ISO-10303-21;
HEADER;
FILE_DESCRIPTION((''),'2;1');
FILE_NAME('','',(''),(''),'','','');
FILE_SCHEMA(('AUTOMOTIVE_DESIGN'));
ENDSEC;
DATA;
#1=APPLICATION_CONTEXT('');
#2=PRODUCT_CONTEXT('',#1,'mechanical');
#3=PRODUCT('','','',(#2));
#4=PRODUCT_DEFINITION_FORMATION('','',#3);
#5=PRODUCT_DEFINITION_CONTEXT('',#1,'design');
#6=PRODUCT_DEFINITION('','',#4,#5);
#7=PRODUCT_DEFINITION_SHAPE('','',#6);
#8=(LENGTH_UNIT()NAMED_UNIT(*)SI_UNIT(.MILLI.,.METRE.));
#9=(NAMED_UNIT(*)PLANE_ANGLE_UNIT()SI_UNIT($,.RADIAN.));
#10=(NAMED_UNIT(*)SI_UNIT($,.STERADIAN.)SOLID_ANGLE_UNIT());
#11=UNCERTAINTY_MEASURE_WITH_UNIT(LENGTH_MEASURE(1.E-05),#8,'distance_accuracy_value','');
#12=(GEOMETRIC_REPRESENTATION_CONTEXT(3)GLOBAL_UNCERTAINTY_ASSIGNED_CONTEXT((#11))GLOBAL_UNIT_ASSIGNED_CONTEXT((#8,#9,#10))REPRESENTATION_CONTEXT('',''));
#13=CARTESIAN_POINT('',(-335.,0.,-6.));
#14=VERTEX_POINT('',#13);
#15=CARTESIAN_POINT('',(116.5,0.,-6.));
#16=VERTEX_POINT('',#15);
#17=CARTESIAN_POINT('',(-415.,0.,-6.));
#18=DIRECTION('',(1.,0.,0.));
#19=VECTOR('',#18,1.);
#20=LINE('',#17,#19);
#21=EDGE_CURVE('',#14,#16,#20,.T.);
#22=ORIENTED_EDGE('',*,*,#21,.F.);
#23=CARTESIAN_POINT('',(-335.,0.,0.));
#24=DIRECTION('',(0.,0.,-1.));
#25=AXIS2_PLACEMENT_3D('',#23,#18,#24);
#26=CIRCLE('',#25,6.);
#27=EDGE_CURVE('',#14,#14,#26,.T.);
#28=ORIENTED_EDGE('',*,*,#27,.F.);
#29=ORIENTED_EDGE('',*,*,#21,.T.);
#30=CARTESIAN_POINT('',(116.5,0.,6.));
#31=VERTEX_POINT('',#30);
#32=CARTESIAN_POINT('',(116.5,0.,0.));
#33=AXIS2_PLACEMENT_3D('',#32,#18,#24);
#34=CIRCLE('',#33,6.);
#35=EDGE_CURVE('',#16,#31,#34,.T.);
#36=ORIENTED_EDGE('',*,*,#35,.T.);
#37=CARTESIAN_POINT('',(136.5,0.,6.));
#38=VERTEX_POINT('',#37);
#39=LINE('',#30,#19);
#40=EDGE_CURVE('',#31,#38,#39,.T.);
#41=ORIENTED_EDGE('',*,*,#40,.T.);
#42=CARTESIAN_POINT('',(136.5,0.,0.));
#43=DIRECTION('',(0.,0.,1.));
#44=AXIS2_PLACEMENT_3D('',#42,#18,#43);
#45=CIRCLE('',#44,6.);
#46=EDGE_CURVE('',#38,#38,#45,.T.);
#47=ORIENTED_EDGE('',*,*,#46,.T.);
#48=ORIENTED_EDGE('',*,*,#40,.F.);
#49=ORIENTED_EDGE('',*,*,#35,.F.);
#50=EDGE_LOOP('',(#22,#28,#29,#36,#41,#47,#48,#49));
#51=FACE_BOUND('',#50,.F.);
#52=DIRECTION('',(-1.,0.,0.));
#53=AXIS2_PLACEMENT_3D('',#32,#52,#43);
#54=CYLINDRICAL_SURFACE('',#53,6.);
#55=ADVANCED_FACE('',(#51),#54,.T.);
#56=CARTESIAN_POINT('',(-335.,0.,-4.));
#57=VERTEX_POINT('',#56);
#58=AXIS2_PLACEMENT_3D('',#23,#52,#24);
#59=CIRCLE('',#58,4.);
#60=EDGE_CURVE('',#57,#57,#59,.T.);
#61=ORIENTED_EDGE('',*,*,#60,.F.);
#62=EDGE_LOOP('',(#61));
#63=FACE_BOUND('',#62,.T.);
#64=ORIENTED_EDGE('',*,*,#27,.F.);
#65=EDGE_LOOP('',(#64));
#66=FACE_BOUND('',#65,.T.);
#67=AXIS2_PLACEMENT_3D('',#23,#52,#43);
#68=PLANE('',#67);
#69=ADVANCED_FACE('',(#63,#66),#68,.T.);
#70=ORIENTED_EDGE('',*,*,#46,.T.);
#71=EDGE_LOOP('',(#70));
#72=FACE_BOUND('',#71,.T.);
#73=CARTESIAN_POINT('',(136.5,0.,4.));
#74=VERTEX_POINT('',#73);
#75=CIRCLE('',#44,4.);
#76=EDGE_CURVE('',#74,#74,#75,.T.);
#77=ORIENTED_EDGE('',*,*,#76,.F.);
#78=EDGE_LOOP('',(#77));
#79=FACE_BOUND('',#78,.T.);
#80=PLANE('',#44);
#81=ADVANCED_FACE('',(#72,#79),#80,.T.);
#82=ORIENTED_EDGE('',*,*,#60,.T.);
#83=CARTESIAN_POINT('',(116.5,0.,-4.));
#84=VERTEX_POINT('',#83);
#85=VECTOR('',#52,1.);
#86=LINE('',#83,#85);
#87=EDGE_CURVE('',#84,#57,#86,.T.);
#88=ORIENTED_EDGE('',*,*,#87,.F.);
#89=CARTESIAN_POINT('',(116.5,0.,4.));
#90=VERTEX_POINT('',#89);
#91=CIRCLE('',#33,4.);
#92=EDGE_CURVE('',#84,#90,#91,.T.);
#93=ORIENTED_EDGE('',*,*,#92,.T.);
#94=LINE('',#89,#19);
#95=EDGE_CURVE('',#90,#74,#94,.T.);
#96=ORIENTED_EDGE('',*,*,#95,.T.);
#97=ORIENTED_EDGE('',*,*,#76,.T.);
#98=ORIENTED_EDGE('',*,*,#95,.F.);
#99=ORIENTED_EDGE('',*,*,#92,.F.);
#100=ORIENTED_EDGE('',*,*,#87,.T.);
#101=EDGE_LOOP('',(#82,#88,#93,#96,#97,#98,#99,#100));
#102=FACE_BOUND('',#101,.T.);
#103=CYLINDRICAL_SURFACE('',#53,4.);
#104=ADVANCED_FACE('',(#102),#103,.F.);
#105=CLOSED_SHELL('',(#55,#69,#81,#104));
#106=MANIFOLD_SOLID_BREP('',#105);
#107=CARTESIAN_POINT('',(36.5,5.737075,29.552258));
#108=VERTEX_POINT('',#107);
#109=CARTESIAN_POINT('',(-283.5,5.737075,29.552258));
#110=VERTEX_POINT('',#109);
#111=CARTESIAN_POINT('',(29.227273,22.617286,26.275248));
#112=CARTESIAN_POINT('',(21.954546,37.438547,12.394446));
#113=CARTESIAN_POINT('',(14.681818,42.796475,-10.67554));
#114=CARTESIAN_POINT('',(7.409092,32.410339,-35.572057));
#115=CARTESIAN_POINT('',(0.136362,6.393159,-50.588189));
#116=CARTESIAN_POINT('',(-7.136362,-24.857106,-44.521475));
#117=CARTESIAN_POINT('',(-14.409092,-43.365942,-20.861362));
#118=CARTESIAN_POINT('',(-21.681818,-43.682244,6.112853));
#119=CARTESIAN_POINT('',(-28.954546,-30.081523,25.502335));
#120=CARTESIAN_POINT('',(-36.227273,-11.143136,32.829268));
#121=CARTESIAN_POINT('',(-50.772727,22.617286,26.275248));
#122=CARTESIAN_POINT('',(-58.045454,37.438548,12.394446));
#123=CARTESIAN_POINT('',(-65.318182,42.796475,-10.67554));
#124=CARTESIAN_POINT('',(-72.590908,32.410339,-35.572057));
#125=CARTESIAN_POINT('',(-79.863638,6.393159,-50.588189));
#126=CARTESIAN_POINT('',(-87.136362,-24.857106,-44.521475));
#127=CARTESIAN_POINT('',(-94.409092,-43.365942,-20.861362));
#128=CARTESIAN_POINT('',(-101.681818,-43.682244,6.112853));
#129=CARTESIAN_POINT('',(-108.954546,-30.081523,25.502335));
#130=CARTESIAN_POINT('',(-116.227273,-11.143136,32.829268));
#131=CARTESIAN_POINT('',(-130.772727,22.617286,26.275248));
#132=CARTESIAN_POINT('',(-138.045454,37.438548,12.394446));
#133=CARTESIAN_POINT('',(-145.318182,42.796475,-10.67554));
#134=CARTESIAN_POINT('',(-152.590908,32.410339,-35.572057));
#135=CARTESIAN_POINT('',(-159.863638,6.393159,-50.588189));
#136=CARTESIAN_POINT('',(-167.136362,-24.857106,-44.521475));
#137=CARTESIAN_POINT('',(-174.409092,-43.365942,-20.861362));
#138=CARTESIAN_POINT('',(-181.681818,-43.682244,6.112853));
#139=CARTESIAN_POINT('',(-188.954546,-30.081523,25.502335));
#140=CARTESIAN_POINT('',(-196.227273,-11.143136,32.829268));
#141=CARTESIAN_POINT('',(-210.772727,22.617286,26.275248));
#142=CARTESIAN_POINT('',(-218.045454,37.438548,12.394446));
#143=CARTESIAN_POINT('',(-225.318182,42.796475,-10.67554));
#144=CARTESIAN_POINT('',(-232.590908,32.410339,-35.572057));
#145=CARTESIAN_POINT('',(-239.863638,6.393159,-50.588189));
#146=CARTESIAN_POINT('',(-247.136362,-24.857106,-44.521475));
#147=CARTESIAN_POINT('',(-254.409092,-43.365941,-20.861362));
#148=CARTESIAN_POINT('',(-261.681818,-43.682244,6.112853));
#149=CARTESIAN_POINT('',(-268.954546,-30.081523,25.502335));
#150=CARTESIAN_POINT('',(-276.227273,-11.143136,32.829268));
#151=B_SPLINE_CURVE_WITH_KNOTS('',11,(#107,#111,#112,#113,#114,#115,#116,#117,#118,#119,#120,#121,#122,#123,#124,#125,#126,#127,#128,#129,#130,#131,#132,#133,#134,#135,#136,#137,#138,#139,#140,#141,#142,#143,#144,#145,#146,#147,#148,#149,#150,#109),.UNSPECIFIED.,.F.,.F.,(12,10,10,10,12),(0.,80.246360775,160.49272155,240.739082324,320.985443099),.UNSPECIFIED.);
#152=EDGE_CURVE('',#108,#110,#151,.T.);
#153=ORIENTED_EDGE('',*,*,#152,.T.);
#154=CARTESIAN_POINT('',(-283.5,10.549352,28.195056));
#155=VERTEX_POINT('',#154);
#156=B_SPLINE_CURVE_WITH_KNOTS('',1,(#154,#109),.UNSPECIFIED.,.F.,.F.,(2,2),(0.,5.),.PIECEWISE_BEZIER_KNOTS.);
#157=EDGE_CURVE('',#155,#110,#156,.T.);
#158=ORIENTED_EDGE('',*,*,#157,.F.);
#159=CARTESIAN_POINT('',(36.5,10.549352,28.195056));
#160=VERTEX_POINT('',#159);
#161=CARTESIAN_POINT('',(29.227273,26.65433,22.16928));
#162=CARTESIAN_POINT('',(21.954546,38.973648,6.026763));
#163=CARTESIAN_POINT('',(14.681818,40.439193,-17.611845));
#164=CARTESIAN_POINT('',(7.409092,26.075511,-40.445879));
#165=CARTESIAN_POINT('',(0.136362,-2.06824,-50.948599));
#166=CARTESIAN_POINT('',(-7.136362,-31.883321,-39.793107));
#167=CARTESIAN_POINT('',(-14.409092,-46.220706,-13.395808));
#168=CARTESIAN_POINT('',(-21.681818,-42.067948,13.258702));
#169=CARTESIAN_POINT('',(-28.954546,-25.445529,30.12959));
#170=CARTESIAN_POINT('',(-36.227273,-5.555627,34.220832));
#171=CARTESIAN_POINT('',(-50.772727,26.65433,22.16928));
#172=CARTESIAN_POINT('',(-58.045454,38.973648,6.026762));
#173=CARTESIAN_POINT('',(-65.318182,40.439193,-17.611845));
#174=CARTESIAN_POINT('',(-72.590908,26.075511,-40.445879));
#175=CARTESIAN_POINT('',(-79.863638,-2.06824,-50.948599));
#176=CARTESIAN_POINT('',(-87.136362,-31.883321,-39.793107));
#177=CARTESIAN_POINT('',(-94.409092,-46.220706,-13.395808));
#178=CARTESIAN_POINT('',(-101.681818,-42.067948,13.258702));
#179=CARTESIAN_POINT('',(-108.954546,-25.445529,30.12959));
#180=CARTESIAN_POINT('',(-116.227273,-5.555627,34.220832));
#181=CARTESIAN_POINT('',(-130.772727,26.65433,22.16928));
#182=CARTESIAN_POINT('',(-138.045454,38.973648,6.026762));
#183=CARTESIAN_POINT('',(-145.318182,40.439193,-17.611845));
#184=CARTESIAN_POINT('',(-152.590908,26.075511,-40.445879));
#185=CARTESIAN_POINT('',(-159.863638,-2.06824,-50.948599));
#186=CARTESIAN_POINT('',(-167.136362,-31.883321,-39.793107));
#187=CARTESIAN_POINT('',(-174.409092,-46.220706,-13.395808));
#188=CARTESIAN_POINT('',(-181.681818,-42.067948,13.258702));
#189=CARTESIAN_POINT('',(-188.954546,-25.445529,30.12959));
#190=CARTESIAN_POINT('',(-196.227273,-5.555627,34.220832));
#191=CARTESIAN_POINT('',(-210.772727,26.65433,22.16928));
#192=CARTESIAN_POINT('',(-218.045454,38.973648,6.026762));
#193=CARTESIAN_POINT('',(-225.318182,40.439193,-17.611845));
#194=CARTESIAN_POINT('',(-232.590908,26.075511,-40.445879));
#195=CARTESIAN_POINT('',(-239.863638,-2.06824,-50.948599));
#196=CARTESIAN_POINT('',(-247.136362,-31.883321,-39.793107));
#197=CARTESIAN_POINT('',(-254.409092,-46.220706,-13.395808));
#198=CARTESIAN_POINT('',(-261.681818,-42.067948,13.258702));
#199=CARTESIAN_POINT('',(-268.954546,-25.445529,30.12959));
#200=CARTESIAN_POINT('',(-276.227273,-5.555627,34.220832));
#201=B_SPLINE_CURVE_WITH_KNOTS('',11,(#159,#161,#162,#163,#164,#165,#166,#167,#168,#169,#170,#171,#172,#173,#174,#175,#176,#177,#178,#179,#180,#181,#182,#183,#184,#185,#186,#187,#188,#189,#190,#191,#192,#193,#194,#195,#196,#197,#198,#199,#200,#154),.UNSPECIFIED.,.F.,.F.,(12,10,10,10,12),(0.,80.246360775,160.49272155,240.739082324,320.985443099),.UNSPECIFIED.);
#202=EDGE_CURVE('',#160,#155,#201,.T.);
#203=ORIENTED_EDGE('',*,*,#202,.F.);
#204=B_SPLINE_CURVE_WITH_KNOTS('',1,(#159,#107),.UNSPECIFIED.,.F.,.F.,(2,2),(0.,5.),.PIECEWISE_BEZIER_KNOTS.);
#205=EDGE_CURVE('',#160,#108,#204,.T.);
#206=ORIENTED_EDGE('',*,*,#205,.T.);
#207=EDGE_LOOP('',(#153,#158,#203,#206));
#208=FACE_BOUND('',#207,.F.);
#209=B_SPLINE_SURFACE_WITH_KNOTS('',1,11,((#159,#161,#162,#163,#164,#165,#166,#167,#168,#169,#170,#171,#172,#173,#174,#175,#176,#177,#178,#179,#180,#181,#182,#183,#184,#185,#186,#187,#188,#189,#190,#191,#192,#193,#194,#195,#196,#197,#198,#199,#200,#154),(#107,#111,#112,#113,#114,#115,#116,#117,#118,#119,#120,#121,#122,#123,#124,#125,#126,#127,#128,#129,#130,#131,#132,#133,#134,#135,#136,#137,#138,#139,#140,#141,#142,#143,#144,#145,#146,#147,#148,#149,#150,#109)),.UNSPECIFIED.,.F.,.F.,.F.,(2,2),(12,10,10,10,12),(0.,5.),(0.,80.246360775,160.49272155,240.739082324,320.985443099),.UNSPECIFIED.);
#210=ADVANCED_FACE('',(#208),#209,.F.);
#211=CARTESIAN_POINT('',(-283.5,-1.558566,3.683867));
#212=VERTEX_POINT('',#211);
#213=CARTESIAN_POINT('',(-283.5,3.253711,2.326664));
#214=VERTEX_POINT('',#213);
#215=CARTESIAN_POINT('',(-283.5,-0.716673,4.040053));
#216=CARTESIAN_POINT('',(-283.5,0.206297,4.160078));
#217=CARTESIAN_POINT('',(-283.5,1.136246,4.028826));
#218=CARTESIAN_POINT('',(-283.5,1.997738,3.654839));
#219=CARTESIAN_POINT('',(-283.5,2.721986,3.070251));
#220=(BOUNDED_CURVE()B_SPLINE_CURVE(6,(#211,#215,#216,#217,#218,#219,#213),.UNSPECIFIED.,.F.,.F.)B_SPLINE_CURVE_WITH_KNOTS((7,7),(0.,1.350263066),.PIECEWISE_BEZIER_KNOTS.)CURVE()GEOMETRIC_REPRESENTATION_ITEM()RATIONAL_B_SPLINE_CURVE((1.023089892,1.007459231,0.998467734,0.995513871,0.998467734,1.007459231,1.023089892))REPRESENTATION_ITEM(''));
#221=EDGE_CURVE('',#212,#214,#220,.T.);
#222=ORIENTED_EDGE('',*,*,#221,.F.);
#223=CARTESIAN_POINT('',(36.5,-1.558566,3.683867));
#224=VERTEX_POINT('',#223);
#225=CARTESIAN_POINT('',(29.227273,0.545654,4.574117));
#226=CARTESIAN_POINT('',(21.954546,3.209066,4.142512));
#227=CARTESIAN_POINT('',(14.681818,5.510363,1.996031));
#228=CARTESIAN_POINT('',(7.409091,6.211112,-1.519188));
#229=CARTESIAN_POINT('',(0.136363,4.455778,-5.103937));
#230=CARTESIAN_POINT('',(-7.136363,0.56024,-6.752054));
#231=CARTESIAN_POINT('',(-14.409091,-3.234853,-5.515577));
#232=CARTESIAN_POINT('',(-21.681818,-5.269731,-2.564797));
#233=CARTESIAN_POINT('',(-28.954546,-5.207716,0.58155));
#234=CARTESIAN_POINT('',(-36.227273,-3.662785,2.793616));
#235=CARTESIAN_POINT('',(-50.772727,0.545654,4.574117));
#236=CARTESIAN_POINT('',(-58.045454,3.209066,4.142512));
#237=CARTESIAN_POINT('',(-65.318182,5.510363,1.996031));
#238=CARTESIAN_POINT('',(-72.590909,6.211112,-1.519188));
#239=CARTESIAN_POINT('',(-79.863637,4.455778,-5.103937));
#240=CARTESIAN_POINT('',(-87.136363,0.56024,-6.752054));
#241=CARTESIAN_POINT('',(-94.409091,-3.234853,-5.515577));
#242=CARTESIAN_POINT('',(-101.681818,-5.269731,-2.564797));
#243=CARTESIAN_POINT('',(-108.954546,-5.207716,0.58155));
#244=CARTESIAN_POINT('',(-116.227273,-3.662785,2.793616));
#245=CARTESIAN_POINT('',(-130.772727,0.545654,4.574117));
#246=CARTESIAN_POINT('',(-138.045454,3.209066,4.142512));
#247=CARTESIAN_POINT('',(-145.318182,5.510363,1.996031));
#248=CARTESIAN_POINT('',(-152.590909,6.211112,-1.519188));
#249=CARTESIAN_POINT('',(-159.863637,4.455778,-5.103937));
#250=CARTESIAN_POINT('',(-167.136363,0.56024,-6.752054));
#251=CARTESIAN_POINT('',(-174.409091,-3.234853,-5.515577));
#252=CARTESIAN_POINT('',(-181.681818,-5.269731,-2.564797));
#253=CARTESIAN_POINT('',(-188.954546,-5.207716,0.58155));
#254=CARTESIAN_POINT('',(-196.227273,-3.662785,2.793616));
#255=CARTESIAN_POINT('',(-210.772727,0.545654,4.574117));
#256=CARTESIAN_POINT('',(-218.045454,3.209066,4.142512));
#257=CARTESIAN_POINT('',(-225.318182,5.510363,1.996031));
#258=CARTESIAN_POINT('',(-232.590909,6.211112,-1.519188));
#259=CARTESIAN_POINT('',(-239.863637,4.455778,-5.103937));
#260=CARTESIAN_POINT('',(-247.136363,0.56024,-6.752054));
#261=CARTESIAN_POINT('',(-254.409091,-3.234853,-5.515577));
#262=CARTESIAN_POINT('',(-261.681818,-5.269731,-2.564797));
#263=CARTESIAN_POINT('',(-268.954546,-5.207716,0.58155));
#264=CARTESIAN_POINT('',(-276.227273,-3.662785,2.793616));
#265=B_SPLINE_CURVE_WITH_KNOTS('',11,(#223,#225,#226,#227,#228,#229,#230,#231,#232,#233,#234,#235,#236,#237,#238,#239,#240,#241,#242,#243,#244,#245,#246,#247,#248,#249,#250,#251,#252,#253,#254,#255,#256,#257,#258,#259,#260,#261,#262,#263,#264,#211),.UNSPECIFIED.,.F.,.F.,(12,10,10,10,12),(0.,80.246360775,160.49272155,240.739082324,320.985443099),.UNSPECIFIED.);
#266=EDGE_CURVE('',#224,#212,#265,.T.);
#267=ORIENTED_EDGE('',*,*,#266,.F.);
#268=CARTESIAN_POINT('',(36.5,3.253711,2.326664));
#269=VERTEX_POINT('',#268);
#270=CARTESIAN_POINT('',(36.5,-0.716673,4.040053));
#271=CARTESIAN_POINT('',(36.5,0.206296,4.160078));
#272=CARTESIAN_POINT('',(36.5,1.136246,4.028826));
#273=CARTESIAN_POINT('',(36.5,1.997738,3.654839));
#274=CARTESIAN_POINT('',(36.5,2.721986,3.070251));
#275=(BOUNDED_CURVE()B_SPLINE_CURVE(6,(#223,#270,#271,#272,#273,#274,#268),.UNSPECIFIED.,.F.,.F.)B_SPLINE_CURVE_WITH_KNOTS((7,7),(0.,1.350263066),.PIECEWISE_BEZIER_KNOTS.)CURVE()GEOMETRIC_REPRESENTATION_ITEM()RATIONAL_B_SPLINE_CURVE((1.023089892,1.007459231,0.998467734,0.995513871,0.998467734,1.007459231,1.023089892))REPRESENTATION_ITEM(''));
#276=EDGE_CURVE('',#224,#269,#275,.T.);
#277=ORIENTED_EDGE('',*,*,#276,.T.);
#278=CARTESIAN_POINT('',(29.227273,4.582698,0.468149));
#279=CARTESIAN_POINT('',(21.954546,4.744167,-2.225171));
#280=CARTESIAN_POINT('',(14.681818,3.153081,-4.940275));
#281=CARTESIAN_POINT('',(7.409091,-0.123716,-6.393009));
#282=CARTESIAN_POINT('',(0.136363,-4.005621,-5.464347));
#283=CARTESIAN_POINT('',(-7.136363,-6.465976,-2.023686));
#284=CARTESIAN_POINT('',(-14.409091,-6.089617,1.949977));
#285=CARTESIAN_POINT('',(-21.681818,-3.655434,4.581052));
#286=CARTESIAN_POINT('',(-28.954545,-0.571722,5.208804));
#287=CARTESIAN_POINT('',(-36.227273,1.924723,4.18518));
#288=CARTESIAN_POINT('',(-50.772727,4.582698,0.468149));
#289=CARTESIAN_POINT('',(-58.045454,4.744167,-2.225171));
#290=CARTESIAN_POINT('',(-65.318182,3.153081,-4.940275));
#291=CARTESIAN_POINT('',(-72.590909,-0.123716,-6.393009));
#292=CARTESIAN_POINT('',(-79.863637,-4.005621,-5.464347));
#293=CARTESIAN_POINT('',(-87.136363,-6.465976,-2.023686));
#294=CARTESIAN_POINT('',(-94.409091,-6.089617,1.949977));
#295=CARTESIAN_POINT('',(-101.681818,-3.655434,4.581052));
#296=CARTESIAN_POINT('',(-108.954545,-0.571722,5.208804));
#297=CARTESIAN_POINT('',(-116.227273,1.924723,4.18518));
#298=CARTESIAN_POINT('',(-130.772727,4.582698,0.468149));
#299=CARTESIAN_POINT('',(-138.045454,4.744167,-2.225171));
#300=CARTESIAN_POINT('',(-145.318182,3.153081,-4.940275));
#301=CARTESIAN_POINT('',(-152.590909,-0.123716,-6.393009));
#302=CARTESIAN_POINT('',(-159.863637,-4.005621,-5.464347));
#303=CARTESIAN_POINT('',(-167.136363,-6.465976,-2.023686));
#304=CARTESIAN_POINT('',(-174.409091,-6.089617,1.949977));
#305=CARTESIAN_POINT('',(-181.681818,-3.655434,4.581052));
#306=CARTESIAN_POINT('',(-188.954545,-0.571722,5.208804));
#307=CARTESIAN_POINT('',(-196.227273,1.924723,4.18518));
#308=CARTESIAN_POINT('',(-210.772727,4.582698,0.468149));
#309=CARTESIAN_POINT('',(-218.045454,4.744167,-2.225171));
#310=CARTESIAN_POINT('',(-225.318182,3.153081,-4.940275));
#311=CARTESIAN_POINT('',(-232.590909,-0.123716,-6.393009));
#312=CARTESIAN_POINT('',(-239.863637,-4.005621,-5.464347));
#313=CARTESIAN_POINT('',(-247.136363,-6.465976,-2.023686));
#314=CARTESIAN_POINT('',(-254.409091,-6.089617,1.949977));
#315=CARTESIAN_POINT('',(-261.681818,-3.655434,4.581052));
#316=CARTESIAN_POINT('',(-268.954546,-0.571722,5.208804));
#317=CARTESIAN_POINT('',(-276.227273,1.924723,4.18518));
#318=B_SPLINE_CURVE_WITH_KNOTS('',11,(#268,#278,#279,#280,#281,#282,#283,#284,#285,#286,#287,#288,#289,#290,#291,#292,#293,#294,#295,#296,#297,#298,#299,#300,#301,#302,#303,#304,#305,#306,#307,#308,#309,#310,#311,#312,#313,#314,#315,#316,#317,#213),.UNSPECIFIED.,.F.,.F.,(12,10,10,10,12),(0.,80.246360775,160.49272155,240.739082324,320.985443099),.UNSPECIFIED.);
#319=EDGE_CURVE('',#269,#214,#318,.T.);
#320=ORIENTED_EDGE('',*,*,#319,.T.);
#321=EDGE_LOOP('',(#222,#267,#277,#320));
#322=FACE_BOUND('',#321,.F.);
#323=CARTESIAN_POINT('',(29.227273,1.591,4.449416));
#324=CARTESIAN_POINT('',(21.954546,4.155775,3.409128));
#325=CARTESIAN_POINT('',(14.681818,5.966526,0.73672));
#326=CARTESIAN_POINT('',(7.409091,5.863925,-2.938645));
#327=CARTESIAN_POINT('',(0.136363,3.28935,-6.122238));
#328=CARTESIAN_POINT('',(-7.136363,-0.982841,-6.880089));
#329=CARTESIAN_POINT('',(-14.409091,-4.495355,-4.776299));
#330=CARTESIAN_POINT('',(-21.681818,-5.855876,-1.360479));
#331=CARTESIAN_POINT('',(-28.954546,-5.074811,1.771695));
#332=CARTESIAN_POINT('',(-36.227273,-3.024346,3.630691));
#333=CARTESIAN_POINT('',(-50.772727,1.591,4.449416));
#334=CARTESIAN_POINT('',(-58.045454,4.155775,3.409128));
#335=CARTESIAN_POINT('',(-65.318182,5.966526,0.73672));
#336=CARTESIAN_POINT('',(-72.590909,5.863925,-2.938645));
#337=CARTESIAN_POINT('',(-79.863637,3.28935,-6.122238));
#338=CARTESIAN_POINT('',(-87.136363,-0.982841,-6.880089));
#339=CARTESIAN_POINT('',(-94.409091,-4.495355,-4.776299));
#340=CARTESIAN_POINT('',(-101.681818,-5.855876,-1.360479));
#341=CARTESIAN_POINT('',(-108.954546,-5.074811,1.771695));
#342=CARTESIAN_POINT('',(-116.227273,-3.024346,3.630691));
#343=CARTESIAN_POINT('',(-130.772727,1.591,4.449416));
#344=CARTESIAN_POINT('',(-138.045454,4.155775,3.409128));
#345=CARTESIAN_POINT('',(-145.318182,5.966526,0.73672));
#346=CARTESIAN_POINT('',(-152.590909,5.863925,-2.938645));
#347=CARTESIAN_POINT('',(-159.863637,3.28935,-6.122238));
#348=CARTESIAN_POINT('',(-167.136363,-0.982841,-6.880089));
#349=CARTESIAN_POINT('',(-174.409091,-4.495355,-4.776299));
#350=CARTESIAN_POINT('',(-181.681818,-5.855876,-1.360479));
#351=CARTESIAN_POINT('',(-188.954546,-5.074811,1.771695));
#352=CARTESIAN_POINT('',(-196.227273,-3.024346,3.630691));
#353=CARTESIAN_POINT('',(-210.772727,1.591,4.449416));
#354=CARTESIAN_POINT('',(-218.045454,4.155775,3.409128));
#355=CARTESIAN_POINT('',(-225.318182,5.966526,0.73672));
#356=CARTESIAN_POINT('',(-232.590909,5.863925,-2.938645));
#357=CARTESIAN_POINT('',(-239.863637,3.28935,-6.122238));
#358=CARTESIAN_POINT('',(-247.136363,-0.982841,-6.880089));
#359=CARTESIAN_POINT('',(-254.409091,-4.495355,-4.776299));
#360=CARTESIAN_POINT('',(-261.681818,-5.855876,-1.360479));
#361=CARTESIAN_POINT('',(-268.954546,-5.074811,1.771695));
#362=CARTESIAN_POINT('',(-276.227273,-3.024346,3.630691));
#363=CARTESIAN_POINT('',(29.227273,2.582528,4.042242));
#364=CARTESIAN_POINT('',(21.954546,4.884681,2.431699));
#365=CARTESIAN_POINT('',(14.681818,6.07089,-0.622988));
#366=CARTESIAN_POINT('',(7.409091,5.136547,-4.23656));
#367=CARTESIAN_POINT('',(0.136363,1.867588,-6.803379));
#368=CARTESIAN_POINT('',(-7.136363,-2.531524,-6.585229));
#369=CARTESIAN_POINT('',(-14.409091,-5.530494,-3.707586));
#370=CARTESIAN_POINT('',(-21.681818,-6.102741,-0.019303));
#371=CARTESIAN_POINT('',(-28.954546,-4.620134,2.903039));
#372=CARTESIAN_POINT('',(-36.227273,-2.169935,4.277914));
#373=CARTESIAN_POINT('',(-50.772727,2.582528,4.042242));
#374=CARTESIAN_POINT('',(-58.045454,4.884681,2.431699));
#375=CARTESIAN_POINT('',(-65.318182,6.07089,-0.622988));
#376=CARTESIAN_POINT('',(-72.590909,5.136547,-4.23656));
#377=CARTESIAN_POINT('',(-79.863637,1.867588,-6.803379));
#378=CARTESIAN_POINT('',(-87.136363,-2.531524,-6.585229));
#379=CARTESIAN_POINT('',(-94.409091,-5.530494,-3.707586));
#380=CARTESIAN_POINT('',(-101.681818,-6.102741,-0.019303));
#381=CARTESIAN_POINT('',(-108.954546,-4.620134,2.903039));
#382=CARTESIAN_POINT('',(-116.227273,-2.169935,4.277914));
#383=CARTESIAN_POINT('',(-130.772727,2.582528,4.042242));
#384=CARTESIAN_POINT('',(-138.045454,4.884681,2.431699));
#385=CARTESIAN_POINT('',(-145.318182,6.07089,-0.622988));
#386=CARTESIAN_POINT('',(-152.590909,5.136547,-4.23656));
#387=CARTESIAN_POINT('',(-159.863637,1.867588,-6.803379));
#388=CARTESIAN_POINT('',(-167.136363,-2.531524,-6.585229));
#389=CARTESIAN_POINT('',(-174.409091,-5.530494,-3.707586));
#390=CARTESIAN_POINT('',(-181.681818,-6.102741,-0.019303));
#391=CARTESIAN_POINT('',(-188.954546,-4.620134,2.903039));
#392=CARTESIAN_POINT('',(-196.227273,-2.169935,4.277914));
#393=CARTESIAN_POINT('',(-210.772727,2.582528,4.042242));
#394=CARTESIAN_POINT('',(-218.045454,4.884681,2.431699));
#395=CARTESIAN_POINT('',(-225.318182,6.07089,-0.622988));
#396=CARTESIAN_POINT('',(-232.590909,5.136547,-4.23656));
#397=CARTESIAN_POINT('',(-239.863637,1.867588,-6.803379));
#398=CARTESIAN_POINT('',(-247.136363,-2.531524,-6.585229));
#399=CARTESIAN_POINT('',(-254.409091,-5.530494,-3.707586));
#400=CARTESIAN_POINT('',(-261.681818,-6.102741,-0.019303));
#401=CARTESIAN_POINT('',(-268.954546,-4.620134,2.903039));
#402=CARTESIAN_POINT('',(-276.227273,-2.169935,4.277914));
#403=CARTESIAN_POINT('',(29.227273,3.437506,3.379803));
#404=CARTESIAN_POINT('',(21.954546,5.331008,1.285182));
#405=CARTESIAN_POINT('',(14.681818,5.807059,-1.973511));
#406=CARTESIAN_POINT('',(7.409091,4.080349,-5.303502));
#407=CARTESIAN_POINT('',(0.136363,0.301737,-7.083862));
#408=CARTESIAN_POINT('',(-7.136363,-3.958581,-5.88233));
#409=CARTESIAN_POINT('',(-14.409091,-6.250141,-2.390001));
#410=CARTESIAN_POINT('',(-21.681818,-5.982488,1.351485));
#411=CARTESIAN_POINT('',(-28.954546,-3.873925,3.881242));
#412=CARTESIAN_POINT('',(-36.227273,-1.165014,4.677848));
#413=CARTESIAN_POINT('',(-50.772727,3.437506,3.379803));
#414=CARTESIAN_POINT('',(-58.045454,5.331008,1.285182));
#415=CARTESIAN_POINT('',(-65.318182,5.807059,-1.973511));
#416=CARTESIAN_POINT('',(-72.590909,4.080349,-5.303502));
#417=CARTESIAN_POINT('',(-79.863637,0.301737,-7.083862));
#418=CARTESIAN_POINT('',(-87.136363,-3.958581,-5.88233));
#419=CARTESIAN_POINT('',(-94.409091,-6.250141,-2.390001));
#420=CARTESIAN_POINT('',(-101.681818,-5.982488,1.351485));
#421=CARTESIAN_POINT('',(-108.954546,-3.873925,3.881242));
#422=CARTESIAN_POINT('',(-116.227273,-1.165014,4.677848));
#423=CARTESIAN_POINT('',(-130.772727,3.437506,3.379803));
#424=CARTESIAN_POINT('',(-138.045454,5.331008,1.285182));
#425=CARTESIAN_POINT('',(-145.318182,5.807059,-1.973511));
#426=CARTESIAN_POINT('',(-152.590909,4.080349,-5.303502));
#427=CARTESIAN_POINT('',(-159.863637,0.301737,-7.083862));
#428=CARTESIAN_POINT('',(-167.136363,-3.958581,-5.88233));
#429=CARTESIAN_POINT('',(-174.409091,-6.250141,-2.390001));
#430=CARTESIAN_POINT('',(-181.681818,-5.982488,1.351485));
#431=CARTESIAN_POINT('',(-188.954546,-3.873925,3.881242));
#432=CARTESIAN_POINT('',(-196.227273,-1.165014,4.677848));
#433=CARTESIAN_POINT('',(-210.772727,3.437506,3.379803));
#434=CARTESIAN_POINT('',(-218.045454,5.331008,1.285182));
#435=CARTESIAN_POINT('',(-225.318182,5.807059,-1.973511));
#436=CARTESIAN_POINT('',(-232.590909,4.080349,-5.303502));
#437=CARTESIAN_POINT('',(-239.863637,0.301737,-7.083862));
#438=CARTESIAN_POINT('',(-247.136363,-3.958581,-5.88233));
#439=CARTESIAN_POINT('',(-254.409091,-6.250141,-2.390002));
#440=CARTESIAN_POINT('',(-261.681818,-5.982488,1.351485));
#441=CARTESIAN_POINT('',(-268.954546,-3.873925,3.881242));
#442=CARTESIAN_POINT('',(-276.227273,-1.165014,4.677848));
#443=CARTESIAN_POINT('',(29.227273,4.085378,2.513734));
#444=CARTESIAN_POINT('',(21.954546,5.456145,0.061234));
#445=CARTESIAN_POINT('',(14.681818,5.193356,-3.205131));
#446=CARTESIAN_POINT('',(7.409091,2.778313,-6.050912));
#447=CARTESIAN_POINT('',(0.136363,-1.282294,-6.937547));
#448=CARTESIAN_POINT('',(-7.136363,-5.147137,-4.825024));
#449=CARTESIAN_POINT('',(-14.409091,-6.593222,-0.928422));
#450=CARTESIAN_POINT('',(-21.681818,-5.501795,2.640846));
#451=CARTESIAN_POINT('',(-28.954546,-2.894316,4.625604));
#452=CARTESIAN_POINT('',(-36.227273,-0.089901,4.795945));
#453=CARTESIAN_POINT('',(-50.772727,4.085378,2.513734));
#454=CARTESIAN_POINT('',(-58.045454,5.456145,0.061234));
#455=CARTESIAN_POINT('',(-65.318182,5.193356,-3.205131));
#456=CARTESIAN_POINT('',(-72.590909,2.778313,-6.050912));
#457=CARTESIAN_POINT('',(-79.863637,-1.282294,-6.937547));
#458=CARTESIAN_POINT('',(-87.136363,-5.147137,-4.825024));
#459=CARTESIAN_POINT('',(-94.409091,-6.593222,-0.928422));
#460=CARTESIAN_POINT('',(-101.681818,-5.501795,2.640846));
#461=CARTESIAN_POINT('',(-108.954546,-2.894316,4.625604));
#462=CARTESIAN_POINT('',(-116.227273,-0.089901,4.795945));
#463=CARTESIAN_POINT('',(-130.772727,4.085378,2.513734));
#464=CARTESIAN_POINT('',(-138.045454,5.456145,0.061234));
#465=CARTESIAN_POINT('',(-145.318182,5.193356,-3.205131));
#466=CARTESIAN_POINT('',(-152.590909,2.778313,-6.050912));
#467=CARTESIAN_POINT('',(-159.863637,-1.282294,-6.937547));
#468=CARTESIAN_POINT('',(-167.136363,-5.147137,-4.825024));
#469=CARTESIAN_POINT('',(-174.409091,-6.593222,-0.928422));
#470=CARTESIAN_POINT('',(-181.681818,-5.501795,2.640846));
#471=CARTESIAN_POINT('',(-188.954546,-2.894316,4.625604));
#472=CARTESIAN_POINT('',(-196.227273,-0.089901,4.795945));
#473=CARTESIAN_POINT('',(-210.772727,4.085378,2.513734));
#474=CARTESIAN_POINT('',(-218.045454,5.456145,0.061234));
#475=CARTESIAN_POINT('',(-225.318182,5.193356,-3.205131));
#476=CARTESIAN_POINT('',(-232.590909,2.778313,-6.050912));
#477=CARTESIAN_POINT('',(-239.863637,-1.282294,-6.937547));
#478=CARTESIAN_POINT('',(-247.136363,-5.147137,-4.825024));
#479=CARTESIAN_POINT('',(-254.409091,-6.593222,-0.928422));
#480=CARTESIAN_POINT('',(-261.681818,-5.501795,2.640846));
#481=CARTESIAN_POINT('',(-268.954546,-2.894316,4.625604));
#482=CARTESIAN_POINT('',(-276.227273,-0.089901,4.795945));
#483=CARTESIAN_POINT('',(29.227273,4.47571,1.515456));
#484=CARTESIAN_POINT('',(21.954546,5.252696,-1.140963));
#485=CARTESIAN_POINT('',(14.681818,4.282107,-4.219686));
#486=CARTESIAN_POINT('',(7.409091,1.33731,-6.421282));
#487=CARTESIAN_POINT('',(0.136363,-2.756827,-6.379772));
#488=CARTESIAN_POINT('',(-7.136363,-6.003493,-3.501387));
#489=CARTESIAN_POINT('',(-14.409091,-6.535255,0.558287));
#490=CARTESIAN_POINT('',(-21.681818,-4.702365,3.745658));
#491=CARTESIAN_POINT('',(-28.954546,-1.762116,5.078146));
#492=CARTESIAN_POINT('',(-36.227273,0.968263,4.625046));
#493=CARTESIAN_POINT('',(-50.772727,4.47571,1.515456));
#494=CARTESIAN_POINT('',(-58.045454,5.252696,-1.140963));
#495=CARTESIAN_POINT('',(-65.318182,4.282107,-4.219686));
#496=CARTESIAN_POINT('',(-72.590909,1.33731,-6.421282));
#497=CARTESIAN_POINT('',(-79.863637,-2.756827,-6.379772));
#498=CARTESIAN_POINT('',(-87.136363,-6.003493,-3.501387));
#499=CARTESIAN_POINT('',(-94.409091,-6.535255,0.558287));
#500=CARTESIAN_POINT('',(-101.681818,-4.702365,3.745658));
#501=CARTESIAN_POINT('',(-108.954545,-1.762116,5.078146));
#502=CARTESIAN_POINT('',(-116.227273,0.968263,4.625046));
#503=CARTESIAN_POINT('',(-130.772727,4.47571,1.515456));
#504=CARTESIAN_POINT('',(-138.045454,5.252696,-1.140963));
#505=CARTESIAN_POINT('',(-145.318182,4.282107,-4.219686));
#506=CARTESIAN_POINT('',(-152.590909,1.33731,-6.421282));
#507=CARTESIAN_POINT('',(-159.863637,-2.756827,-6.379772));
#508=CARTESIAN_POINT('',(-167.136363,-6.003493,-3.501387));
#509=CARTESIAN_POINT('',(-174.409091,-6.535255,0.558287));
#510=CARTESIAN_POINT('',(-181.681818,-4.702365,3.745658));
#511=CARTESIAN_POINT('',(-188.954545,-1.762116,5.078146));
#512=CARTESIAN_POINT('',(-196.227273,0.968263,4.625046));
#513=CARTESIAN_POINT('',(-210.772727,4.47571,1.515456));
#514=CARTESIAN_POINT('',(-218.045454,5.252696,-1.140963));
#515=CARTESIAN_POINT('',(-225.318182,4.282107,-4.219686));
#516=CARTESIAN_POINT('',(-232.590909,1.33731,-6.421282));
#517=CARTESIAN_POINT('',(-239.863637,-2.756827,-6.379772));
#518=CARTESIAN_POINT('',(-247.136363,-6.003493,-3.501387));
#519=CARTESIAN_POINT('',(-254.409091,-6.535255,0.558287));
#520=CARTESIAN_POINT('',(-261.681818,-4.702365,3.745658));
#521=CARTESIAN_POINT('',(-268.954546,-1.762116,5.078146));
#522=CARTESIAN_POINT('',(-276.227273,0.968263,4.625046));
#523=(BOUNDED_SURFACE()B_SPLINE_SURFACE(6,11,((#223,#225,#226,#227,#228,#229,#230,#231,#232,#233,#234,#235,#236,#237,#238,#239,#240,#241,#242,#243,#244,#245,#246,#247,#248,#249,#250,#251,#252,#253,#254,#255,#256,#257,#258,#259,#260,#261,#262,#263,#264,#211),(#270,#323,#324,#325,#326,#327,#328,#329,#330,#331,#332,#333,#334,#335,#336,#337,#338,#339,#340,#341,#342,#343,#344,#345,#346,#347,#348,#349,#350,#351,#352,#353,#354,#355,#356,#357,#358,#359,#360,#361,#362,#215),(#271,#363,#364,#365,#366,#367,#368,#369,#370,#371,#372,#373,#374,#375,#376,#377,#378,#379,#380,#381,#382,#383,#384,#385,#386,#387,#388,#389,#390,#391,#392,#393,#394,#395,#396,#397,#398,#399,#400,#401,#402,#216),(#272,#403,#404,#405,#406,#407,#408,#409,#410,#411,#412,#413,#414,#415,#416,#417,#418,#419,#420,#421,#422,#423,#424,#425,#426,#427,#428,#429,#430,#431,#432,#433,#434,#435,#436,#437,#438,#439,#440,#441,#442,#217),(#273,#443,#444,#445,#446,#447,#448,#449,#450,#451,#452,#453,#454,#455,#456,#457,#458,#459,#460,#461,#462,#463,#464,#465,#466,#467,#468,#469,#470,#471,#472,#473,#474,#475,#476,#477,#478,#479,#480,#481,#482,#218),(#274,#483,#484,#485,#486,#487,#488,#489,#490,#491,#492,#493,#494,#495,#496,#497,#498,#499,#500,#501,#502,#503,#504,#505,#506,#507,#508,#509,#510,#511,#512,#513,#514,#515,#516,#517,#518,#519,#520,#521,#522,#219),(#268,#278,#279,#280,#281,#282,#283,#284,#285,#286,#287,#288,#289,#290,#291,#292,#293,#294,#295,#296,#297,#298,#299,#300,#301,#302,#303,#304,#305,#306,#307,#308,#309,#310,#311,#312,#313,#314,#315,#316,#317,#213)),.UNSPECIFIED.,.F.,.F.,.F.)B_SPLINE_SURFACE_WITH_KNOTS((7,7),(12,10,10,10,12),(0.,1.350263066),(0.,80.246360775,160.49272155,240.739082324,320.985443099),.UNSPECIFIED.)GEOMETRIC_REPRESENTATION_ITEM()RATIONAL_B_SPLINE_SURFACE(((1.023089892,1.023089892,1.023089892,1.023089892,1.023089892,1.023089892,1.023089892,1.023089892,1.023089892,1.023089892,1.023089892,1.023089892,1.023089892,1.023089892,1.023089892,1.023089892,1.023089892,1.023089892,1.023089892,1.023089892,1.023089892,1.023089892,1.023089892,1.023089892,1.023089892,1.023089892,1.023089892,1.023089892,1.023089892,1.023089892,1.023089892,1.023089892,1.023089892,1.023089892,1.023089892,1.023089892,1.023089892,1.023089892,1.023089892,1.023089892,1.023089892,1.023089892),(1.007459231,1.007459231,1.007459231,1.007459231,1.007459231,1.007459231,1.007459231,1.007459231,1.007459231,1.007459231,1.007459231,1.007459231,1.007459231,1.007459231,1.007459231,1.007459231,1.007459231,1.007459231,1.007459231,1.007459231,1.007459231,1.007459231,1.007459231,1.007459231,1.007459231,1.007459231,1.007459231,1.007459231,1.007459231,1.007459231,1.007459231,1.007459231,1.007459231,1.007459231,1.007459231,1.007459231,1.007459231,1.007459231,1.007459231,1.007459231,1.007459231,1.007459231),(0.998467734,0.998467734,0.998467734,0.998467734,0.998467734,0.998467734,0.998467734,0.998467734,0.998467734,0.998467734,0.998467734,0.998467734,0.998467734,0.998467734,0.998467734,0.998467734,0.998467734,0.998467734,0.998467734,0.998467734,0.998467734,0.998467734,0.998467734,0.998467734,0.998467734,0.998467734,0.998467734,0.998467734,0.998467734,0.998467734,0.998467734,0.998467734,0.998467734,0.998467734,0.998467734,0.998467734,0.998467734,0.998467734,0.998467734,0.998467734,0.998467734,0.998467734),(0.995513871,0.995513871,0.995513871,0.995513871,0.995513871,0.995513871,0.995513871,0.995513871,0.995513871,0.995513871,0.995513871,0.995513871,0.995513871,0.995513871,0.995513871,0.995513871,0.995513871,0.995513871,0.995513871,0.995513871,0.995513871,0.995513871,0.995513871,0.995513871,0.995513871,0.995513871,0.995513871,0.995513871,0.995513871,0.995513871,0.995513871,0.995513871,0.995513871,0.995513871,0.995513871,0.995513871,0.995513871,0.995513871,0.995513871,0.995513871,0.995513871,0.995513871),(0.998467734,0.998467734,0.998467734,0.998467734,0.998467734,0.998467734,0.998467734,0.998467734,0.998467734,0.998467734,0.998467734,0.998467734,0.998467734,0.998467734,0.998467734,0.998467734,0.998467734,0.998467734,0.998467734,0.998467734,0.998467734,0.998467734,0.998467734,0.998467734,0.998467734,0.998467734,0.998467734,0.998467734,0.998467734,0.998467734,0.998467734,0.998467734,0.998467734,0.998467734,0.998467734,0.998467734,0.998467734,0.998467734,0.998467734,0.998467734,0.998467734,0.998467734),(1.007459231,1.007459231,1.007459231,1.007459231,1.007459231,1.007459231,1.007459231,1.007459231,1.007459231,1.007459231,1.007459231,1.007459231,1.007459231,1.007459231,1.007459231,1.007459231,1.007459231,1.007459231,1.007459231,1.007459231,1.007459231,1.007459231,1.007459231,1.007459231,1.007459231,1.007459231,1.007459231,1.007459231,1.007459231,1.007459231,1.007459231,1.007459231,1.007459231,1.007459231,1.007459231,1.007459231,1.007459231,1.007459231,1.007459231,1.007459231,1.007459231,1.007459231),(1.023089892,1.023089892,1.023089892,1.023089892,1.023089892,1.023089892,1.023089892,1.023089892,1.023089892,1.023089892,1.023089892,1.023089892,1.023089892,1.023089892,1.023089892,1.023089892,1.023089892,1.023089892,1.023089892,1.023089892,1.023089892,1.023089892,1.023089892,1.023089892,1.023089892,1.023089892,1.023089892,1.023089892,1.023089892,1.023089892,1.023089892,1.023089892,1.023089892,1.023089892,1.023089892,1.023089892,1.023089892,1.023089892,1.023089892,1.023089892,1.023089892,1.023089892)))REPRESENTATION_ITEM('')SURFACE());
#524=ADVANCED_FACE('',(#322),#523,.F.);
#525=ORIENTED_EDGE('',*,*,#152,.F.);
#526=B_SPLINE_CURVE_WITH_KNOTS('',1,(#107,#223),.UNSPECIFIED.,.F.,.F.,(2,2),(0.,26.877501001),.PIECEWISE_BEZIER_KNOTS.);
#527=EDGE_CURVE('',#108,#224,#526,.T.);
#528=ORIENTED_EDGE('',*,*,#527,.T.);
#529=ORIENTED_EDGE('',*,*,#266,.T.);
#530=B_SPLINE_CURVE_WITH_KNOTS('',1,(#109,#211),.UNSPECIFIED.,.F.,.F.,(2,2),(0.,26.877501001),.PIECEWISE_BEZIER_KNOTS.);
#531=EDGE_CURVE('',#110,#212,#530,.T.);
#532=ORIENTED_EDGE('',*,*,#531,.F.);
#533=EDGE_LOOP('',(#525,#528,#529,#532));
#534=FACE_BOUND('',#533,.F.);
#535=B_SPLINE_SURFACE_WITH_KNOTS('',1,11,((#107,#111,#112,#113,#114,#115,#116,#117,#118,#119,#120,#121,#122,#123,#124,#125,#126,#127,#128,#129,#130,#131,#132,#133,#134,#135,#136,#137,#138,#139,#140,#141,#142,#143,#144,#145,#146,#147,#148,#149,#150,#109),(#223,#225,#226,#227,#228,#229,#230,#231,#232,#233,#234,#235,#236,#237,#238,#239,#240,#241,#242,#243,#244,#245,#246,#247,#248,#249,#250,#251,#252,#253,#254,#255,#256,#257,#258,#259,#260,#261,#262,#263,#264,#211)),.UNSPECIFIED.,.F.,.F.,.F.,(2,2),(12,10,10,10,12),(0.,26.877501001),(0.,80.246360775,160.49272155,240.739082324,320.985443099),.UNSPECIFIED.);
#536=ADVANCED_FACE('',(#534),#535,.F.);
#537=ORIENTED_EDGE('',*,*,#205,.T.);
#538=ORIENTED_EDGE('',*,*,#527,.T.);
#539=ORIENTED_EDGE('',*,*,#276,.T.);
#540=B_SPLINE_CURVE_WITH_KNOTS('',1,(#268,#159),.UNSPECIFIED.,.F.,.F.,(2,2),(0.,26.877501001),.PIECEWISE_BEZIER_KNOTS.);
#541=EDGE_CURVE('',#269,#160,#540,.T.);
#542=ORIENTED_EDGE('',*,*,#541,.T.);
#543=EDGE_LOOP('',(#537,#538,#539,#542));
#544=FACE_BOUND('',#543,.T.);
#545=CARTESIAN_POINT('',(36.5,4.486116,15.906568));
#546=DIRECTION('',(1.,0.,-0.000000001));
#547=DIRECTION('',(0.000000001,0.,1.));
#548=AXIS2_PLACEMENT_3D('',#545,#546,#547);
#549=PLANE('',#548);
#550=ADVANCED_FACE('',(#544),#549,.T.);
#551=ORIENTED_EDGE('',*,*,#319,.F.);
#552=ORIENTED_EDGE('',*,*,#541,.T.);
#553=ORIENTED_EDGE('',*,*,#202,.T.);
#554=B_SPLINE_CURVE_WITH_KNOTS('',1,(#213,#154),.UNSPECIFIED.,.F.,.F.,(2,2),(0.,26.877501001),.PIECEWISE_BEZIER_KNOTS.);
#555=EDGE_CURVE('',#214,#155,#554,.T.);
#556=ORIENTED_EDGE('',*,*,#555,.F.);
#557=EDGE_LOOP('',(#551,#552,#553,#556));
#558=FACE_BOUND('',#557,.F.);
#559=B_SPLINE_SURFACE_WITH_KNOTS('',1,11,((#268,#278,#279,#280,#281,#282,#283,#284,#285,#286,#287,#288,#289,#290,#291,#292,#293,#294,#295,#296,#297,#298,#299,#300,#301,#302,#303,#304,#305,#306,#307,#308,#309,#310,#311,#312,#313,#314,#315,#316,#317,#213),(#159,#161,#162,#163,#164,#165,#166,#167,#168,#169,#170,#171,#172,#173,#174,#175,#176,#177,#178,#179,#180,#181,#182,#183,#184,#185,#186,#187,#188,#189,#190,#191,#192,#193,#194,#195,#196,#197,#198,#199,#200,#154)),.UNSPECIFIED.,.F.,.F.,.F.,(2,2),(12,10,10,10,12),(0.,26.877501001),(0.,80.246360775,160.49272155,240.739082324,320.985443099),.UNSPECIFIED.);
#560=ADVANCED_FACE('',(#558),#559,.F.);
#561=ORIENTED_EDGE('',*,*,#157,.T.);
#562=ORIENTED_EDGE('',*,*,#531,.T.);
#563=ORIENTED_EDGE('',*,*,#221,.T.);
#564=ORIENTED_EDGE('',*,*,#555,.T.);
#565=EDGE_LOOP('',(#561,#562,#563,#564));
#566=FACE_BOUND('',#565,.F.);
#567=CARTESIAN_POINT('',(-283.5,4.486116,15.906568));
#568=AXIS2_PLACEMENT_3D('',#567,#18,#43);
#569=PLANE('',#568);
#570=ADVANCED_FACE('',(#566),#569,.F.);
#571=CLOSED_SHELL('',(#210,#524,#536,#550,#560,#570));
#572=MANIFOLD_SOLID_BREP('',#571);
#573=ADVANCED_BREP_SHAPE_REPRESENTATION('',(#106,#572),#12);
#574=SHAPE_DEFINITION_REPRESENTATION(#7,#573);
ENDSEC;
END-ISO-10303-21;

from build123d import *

# Parameters (mm, degrees)
AUFSATZ_LINEAR_AUSTRAGEN1_DEPTH      = 51.5
AUFSATZ_LINEAR_AUSTRAGEN1_DEPTH_BACK = 415
SKIZZE3_R                            = 6
SKIZZE3_R_2                          = 4
AUSTRAGUNG1_PITCH                    = 80
AUSTRAGUNG1_HEIGHT                   = 320
AUSTRAGUNG1_RADIUS                   = 4
SKETCH1_R                            = 6
SKETCH1_R_2                          = 4
BOSS_EXTRUDE1_DEPTH                  = 65
SKETCH2_R                            = 6
CUT_EXTRUDE1_DEPTH                   = 80
SKETCH3_R                            = 6
SKETCH3_R_2                          = 4
BOSS_EXTRUDE2_DEPTH                  = 20


with BuildPart() as part:
    # Skizze3 → Aufsatz-Linear austragen1 (new, two sides: drawn at the far end of the back side and taken through both)
    with BuildSketch(Plane(origin=(0, 0, 0), x_dir=(0, 0, -1), z_dir=(1, 0, 0)).offset(-AUFSATZ_LINEAR_AUSTRAGEN1_DEPTH_BACK)):
        Circle(SKIZZE3_R)
        Circle(SKIZZE3_R_2, mode=Mode.SUBTRACT)
    extrude(amount=AUFSATZ_LINEAR_AUSTRAGEN1_DEPTH + AUFSATZ_LINEAR_AUSTRAGEN1_DEPTH_BACK)

    # Sketch1 → Boss-Extrude1 (add)
    with BuildSketch(Plane(origin=(51.5, 0, 0), x_dir=(0, 0, -1), z_dir=(1, 0, 0))):
        Circle(SKETCH1_R)
        Circle(SKETCH1_R_2, mode=Mode.SUBTRACT)
    extrude(amount=BOSS_EXTRUDE1_DEPTH)

    # Sketch2 → Cut-Extrude1 (cut)
    with BuildSketch(Plane.ZY.offset(415)):
        Circle(SKETCH2_R)
    extrude(amount=-CUT_EXTRUDE1_DEPTH, mode=Mode.SUBTRACT)

    # Sketch3 → Boss-Extrude2 (add)
    with BuildSketch(Plane(origin=(116.5, 0, 0), x_dir=(0, 0, -1), z_dir=(1, 0, 0))):
        with Locations(Location((0, 0, 0), (0, 0, 180))):
            Circle(SKETCH3_R)
        with Locations(Location((0, 0, 0), (0, 0, 180))):
            Circle(SKETCH3_R_2, mode=Mode.SUBTRACT)
    extrude(amount=BOSS_EXTRUDE2_DEPTH)


with BuildPart() as body_2:
    # Austragung1: sweep along a helix
    with BuildLine() as austragung1_path:
        Helix(AUSTRAGUNG1_PITCH, AUSTRAGUNG1_HEIGHT, AUSTRAGUNG1_RADIUS, center=(36.5, 0, 0), direction=(-1, 0, 0))
    # Skizze2 → Austragung1 (sweep)
    with BuildSketch(Plane(origin=(0, 0, 0), x_dir=(0, 0, -1), z_dir=(1, 0, 0))):
        with BuildLine():
            Line((3.122498999, -2.5), (30, -2.5))
            Line((30, -2.5), (30, 2.5))
            Line((30, 2.5), (3.122498999, 2.5))
            ThreePointArc((3.122498999, 2.5), (4, 0), (3.122498999, -2.5))
        make_face()
    sweep(path=austragung1_path.line, is_frenet=True)


solid = Compound([part.part, body_2.part])
